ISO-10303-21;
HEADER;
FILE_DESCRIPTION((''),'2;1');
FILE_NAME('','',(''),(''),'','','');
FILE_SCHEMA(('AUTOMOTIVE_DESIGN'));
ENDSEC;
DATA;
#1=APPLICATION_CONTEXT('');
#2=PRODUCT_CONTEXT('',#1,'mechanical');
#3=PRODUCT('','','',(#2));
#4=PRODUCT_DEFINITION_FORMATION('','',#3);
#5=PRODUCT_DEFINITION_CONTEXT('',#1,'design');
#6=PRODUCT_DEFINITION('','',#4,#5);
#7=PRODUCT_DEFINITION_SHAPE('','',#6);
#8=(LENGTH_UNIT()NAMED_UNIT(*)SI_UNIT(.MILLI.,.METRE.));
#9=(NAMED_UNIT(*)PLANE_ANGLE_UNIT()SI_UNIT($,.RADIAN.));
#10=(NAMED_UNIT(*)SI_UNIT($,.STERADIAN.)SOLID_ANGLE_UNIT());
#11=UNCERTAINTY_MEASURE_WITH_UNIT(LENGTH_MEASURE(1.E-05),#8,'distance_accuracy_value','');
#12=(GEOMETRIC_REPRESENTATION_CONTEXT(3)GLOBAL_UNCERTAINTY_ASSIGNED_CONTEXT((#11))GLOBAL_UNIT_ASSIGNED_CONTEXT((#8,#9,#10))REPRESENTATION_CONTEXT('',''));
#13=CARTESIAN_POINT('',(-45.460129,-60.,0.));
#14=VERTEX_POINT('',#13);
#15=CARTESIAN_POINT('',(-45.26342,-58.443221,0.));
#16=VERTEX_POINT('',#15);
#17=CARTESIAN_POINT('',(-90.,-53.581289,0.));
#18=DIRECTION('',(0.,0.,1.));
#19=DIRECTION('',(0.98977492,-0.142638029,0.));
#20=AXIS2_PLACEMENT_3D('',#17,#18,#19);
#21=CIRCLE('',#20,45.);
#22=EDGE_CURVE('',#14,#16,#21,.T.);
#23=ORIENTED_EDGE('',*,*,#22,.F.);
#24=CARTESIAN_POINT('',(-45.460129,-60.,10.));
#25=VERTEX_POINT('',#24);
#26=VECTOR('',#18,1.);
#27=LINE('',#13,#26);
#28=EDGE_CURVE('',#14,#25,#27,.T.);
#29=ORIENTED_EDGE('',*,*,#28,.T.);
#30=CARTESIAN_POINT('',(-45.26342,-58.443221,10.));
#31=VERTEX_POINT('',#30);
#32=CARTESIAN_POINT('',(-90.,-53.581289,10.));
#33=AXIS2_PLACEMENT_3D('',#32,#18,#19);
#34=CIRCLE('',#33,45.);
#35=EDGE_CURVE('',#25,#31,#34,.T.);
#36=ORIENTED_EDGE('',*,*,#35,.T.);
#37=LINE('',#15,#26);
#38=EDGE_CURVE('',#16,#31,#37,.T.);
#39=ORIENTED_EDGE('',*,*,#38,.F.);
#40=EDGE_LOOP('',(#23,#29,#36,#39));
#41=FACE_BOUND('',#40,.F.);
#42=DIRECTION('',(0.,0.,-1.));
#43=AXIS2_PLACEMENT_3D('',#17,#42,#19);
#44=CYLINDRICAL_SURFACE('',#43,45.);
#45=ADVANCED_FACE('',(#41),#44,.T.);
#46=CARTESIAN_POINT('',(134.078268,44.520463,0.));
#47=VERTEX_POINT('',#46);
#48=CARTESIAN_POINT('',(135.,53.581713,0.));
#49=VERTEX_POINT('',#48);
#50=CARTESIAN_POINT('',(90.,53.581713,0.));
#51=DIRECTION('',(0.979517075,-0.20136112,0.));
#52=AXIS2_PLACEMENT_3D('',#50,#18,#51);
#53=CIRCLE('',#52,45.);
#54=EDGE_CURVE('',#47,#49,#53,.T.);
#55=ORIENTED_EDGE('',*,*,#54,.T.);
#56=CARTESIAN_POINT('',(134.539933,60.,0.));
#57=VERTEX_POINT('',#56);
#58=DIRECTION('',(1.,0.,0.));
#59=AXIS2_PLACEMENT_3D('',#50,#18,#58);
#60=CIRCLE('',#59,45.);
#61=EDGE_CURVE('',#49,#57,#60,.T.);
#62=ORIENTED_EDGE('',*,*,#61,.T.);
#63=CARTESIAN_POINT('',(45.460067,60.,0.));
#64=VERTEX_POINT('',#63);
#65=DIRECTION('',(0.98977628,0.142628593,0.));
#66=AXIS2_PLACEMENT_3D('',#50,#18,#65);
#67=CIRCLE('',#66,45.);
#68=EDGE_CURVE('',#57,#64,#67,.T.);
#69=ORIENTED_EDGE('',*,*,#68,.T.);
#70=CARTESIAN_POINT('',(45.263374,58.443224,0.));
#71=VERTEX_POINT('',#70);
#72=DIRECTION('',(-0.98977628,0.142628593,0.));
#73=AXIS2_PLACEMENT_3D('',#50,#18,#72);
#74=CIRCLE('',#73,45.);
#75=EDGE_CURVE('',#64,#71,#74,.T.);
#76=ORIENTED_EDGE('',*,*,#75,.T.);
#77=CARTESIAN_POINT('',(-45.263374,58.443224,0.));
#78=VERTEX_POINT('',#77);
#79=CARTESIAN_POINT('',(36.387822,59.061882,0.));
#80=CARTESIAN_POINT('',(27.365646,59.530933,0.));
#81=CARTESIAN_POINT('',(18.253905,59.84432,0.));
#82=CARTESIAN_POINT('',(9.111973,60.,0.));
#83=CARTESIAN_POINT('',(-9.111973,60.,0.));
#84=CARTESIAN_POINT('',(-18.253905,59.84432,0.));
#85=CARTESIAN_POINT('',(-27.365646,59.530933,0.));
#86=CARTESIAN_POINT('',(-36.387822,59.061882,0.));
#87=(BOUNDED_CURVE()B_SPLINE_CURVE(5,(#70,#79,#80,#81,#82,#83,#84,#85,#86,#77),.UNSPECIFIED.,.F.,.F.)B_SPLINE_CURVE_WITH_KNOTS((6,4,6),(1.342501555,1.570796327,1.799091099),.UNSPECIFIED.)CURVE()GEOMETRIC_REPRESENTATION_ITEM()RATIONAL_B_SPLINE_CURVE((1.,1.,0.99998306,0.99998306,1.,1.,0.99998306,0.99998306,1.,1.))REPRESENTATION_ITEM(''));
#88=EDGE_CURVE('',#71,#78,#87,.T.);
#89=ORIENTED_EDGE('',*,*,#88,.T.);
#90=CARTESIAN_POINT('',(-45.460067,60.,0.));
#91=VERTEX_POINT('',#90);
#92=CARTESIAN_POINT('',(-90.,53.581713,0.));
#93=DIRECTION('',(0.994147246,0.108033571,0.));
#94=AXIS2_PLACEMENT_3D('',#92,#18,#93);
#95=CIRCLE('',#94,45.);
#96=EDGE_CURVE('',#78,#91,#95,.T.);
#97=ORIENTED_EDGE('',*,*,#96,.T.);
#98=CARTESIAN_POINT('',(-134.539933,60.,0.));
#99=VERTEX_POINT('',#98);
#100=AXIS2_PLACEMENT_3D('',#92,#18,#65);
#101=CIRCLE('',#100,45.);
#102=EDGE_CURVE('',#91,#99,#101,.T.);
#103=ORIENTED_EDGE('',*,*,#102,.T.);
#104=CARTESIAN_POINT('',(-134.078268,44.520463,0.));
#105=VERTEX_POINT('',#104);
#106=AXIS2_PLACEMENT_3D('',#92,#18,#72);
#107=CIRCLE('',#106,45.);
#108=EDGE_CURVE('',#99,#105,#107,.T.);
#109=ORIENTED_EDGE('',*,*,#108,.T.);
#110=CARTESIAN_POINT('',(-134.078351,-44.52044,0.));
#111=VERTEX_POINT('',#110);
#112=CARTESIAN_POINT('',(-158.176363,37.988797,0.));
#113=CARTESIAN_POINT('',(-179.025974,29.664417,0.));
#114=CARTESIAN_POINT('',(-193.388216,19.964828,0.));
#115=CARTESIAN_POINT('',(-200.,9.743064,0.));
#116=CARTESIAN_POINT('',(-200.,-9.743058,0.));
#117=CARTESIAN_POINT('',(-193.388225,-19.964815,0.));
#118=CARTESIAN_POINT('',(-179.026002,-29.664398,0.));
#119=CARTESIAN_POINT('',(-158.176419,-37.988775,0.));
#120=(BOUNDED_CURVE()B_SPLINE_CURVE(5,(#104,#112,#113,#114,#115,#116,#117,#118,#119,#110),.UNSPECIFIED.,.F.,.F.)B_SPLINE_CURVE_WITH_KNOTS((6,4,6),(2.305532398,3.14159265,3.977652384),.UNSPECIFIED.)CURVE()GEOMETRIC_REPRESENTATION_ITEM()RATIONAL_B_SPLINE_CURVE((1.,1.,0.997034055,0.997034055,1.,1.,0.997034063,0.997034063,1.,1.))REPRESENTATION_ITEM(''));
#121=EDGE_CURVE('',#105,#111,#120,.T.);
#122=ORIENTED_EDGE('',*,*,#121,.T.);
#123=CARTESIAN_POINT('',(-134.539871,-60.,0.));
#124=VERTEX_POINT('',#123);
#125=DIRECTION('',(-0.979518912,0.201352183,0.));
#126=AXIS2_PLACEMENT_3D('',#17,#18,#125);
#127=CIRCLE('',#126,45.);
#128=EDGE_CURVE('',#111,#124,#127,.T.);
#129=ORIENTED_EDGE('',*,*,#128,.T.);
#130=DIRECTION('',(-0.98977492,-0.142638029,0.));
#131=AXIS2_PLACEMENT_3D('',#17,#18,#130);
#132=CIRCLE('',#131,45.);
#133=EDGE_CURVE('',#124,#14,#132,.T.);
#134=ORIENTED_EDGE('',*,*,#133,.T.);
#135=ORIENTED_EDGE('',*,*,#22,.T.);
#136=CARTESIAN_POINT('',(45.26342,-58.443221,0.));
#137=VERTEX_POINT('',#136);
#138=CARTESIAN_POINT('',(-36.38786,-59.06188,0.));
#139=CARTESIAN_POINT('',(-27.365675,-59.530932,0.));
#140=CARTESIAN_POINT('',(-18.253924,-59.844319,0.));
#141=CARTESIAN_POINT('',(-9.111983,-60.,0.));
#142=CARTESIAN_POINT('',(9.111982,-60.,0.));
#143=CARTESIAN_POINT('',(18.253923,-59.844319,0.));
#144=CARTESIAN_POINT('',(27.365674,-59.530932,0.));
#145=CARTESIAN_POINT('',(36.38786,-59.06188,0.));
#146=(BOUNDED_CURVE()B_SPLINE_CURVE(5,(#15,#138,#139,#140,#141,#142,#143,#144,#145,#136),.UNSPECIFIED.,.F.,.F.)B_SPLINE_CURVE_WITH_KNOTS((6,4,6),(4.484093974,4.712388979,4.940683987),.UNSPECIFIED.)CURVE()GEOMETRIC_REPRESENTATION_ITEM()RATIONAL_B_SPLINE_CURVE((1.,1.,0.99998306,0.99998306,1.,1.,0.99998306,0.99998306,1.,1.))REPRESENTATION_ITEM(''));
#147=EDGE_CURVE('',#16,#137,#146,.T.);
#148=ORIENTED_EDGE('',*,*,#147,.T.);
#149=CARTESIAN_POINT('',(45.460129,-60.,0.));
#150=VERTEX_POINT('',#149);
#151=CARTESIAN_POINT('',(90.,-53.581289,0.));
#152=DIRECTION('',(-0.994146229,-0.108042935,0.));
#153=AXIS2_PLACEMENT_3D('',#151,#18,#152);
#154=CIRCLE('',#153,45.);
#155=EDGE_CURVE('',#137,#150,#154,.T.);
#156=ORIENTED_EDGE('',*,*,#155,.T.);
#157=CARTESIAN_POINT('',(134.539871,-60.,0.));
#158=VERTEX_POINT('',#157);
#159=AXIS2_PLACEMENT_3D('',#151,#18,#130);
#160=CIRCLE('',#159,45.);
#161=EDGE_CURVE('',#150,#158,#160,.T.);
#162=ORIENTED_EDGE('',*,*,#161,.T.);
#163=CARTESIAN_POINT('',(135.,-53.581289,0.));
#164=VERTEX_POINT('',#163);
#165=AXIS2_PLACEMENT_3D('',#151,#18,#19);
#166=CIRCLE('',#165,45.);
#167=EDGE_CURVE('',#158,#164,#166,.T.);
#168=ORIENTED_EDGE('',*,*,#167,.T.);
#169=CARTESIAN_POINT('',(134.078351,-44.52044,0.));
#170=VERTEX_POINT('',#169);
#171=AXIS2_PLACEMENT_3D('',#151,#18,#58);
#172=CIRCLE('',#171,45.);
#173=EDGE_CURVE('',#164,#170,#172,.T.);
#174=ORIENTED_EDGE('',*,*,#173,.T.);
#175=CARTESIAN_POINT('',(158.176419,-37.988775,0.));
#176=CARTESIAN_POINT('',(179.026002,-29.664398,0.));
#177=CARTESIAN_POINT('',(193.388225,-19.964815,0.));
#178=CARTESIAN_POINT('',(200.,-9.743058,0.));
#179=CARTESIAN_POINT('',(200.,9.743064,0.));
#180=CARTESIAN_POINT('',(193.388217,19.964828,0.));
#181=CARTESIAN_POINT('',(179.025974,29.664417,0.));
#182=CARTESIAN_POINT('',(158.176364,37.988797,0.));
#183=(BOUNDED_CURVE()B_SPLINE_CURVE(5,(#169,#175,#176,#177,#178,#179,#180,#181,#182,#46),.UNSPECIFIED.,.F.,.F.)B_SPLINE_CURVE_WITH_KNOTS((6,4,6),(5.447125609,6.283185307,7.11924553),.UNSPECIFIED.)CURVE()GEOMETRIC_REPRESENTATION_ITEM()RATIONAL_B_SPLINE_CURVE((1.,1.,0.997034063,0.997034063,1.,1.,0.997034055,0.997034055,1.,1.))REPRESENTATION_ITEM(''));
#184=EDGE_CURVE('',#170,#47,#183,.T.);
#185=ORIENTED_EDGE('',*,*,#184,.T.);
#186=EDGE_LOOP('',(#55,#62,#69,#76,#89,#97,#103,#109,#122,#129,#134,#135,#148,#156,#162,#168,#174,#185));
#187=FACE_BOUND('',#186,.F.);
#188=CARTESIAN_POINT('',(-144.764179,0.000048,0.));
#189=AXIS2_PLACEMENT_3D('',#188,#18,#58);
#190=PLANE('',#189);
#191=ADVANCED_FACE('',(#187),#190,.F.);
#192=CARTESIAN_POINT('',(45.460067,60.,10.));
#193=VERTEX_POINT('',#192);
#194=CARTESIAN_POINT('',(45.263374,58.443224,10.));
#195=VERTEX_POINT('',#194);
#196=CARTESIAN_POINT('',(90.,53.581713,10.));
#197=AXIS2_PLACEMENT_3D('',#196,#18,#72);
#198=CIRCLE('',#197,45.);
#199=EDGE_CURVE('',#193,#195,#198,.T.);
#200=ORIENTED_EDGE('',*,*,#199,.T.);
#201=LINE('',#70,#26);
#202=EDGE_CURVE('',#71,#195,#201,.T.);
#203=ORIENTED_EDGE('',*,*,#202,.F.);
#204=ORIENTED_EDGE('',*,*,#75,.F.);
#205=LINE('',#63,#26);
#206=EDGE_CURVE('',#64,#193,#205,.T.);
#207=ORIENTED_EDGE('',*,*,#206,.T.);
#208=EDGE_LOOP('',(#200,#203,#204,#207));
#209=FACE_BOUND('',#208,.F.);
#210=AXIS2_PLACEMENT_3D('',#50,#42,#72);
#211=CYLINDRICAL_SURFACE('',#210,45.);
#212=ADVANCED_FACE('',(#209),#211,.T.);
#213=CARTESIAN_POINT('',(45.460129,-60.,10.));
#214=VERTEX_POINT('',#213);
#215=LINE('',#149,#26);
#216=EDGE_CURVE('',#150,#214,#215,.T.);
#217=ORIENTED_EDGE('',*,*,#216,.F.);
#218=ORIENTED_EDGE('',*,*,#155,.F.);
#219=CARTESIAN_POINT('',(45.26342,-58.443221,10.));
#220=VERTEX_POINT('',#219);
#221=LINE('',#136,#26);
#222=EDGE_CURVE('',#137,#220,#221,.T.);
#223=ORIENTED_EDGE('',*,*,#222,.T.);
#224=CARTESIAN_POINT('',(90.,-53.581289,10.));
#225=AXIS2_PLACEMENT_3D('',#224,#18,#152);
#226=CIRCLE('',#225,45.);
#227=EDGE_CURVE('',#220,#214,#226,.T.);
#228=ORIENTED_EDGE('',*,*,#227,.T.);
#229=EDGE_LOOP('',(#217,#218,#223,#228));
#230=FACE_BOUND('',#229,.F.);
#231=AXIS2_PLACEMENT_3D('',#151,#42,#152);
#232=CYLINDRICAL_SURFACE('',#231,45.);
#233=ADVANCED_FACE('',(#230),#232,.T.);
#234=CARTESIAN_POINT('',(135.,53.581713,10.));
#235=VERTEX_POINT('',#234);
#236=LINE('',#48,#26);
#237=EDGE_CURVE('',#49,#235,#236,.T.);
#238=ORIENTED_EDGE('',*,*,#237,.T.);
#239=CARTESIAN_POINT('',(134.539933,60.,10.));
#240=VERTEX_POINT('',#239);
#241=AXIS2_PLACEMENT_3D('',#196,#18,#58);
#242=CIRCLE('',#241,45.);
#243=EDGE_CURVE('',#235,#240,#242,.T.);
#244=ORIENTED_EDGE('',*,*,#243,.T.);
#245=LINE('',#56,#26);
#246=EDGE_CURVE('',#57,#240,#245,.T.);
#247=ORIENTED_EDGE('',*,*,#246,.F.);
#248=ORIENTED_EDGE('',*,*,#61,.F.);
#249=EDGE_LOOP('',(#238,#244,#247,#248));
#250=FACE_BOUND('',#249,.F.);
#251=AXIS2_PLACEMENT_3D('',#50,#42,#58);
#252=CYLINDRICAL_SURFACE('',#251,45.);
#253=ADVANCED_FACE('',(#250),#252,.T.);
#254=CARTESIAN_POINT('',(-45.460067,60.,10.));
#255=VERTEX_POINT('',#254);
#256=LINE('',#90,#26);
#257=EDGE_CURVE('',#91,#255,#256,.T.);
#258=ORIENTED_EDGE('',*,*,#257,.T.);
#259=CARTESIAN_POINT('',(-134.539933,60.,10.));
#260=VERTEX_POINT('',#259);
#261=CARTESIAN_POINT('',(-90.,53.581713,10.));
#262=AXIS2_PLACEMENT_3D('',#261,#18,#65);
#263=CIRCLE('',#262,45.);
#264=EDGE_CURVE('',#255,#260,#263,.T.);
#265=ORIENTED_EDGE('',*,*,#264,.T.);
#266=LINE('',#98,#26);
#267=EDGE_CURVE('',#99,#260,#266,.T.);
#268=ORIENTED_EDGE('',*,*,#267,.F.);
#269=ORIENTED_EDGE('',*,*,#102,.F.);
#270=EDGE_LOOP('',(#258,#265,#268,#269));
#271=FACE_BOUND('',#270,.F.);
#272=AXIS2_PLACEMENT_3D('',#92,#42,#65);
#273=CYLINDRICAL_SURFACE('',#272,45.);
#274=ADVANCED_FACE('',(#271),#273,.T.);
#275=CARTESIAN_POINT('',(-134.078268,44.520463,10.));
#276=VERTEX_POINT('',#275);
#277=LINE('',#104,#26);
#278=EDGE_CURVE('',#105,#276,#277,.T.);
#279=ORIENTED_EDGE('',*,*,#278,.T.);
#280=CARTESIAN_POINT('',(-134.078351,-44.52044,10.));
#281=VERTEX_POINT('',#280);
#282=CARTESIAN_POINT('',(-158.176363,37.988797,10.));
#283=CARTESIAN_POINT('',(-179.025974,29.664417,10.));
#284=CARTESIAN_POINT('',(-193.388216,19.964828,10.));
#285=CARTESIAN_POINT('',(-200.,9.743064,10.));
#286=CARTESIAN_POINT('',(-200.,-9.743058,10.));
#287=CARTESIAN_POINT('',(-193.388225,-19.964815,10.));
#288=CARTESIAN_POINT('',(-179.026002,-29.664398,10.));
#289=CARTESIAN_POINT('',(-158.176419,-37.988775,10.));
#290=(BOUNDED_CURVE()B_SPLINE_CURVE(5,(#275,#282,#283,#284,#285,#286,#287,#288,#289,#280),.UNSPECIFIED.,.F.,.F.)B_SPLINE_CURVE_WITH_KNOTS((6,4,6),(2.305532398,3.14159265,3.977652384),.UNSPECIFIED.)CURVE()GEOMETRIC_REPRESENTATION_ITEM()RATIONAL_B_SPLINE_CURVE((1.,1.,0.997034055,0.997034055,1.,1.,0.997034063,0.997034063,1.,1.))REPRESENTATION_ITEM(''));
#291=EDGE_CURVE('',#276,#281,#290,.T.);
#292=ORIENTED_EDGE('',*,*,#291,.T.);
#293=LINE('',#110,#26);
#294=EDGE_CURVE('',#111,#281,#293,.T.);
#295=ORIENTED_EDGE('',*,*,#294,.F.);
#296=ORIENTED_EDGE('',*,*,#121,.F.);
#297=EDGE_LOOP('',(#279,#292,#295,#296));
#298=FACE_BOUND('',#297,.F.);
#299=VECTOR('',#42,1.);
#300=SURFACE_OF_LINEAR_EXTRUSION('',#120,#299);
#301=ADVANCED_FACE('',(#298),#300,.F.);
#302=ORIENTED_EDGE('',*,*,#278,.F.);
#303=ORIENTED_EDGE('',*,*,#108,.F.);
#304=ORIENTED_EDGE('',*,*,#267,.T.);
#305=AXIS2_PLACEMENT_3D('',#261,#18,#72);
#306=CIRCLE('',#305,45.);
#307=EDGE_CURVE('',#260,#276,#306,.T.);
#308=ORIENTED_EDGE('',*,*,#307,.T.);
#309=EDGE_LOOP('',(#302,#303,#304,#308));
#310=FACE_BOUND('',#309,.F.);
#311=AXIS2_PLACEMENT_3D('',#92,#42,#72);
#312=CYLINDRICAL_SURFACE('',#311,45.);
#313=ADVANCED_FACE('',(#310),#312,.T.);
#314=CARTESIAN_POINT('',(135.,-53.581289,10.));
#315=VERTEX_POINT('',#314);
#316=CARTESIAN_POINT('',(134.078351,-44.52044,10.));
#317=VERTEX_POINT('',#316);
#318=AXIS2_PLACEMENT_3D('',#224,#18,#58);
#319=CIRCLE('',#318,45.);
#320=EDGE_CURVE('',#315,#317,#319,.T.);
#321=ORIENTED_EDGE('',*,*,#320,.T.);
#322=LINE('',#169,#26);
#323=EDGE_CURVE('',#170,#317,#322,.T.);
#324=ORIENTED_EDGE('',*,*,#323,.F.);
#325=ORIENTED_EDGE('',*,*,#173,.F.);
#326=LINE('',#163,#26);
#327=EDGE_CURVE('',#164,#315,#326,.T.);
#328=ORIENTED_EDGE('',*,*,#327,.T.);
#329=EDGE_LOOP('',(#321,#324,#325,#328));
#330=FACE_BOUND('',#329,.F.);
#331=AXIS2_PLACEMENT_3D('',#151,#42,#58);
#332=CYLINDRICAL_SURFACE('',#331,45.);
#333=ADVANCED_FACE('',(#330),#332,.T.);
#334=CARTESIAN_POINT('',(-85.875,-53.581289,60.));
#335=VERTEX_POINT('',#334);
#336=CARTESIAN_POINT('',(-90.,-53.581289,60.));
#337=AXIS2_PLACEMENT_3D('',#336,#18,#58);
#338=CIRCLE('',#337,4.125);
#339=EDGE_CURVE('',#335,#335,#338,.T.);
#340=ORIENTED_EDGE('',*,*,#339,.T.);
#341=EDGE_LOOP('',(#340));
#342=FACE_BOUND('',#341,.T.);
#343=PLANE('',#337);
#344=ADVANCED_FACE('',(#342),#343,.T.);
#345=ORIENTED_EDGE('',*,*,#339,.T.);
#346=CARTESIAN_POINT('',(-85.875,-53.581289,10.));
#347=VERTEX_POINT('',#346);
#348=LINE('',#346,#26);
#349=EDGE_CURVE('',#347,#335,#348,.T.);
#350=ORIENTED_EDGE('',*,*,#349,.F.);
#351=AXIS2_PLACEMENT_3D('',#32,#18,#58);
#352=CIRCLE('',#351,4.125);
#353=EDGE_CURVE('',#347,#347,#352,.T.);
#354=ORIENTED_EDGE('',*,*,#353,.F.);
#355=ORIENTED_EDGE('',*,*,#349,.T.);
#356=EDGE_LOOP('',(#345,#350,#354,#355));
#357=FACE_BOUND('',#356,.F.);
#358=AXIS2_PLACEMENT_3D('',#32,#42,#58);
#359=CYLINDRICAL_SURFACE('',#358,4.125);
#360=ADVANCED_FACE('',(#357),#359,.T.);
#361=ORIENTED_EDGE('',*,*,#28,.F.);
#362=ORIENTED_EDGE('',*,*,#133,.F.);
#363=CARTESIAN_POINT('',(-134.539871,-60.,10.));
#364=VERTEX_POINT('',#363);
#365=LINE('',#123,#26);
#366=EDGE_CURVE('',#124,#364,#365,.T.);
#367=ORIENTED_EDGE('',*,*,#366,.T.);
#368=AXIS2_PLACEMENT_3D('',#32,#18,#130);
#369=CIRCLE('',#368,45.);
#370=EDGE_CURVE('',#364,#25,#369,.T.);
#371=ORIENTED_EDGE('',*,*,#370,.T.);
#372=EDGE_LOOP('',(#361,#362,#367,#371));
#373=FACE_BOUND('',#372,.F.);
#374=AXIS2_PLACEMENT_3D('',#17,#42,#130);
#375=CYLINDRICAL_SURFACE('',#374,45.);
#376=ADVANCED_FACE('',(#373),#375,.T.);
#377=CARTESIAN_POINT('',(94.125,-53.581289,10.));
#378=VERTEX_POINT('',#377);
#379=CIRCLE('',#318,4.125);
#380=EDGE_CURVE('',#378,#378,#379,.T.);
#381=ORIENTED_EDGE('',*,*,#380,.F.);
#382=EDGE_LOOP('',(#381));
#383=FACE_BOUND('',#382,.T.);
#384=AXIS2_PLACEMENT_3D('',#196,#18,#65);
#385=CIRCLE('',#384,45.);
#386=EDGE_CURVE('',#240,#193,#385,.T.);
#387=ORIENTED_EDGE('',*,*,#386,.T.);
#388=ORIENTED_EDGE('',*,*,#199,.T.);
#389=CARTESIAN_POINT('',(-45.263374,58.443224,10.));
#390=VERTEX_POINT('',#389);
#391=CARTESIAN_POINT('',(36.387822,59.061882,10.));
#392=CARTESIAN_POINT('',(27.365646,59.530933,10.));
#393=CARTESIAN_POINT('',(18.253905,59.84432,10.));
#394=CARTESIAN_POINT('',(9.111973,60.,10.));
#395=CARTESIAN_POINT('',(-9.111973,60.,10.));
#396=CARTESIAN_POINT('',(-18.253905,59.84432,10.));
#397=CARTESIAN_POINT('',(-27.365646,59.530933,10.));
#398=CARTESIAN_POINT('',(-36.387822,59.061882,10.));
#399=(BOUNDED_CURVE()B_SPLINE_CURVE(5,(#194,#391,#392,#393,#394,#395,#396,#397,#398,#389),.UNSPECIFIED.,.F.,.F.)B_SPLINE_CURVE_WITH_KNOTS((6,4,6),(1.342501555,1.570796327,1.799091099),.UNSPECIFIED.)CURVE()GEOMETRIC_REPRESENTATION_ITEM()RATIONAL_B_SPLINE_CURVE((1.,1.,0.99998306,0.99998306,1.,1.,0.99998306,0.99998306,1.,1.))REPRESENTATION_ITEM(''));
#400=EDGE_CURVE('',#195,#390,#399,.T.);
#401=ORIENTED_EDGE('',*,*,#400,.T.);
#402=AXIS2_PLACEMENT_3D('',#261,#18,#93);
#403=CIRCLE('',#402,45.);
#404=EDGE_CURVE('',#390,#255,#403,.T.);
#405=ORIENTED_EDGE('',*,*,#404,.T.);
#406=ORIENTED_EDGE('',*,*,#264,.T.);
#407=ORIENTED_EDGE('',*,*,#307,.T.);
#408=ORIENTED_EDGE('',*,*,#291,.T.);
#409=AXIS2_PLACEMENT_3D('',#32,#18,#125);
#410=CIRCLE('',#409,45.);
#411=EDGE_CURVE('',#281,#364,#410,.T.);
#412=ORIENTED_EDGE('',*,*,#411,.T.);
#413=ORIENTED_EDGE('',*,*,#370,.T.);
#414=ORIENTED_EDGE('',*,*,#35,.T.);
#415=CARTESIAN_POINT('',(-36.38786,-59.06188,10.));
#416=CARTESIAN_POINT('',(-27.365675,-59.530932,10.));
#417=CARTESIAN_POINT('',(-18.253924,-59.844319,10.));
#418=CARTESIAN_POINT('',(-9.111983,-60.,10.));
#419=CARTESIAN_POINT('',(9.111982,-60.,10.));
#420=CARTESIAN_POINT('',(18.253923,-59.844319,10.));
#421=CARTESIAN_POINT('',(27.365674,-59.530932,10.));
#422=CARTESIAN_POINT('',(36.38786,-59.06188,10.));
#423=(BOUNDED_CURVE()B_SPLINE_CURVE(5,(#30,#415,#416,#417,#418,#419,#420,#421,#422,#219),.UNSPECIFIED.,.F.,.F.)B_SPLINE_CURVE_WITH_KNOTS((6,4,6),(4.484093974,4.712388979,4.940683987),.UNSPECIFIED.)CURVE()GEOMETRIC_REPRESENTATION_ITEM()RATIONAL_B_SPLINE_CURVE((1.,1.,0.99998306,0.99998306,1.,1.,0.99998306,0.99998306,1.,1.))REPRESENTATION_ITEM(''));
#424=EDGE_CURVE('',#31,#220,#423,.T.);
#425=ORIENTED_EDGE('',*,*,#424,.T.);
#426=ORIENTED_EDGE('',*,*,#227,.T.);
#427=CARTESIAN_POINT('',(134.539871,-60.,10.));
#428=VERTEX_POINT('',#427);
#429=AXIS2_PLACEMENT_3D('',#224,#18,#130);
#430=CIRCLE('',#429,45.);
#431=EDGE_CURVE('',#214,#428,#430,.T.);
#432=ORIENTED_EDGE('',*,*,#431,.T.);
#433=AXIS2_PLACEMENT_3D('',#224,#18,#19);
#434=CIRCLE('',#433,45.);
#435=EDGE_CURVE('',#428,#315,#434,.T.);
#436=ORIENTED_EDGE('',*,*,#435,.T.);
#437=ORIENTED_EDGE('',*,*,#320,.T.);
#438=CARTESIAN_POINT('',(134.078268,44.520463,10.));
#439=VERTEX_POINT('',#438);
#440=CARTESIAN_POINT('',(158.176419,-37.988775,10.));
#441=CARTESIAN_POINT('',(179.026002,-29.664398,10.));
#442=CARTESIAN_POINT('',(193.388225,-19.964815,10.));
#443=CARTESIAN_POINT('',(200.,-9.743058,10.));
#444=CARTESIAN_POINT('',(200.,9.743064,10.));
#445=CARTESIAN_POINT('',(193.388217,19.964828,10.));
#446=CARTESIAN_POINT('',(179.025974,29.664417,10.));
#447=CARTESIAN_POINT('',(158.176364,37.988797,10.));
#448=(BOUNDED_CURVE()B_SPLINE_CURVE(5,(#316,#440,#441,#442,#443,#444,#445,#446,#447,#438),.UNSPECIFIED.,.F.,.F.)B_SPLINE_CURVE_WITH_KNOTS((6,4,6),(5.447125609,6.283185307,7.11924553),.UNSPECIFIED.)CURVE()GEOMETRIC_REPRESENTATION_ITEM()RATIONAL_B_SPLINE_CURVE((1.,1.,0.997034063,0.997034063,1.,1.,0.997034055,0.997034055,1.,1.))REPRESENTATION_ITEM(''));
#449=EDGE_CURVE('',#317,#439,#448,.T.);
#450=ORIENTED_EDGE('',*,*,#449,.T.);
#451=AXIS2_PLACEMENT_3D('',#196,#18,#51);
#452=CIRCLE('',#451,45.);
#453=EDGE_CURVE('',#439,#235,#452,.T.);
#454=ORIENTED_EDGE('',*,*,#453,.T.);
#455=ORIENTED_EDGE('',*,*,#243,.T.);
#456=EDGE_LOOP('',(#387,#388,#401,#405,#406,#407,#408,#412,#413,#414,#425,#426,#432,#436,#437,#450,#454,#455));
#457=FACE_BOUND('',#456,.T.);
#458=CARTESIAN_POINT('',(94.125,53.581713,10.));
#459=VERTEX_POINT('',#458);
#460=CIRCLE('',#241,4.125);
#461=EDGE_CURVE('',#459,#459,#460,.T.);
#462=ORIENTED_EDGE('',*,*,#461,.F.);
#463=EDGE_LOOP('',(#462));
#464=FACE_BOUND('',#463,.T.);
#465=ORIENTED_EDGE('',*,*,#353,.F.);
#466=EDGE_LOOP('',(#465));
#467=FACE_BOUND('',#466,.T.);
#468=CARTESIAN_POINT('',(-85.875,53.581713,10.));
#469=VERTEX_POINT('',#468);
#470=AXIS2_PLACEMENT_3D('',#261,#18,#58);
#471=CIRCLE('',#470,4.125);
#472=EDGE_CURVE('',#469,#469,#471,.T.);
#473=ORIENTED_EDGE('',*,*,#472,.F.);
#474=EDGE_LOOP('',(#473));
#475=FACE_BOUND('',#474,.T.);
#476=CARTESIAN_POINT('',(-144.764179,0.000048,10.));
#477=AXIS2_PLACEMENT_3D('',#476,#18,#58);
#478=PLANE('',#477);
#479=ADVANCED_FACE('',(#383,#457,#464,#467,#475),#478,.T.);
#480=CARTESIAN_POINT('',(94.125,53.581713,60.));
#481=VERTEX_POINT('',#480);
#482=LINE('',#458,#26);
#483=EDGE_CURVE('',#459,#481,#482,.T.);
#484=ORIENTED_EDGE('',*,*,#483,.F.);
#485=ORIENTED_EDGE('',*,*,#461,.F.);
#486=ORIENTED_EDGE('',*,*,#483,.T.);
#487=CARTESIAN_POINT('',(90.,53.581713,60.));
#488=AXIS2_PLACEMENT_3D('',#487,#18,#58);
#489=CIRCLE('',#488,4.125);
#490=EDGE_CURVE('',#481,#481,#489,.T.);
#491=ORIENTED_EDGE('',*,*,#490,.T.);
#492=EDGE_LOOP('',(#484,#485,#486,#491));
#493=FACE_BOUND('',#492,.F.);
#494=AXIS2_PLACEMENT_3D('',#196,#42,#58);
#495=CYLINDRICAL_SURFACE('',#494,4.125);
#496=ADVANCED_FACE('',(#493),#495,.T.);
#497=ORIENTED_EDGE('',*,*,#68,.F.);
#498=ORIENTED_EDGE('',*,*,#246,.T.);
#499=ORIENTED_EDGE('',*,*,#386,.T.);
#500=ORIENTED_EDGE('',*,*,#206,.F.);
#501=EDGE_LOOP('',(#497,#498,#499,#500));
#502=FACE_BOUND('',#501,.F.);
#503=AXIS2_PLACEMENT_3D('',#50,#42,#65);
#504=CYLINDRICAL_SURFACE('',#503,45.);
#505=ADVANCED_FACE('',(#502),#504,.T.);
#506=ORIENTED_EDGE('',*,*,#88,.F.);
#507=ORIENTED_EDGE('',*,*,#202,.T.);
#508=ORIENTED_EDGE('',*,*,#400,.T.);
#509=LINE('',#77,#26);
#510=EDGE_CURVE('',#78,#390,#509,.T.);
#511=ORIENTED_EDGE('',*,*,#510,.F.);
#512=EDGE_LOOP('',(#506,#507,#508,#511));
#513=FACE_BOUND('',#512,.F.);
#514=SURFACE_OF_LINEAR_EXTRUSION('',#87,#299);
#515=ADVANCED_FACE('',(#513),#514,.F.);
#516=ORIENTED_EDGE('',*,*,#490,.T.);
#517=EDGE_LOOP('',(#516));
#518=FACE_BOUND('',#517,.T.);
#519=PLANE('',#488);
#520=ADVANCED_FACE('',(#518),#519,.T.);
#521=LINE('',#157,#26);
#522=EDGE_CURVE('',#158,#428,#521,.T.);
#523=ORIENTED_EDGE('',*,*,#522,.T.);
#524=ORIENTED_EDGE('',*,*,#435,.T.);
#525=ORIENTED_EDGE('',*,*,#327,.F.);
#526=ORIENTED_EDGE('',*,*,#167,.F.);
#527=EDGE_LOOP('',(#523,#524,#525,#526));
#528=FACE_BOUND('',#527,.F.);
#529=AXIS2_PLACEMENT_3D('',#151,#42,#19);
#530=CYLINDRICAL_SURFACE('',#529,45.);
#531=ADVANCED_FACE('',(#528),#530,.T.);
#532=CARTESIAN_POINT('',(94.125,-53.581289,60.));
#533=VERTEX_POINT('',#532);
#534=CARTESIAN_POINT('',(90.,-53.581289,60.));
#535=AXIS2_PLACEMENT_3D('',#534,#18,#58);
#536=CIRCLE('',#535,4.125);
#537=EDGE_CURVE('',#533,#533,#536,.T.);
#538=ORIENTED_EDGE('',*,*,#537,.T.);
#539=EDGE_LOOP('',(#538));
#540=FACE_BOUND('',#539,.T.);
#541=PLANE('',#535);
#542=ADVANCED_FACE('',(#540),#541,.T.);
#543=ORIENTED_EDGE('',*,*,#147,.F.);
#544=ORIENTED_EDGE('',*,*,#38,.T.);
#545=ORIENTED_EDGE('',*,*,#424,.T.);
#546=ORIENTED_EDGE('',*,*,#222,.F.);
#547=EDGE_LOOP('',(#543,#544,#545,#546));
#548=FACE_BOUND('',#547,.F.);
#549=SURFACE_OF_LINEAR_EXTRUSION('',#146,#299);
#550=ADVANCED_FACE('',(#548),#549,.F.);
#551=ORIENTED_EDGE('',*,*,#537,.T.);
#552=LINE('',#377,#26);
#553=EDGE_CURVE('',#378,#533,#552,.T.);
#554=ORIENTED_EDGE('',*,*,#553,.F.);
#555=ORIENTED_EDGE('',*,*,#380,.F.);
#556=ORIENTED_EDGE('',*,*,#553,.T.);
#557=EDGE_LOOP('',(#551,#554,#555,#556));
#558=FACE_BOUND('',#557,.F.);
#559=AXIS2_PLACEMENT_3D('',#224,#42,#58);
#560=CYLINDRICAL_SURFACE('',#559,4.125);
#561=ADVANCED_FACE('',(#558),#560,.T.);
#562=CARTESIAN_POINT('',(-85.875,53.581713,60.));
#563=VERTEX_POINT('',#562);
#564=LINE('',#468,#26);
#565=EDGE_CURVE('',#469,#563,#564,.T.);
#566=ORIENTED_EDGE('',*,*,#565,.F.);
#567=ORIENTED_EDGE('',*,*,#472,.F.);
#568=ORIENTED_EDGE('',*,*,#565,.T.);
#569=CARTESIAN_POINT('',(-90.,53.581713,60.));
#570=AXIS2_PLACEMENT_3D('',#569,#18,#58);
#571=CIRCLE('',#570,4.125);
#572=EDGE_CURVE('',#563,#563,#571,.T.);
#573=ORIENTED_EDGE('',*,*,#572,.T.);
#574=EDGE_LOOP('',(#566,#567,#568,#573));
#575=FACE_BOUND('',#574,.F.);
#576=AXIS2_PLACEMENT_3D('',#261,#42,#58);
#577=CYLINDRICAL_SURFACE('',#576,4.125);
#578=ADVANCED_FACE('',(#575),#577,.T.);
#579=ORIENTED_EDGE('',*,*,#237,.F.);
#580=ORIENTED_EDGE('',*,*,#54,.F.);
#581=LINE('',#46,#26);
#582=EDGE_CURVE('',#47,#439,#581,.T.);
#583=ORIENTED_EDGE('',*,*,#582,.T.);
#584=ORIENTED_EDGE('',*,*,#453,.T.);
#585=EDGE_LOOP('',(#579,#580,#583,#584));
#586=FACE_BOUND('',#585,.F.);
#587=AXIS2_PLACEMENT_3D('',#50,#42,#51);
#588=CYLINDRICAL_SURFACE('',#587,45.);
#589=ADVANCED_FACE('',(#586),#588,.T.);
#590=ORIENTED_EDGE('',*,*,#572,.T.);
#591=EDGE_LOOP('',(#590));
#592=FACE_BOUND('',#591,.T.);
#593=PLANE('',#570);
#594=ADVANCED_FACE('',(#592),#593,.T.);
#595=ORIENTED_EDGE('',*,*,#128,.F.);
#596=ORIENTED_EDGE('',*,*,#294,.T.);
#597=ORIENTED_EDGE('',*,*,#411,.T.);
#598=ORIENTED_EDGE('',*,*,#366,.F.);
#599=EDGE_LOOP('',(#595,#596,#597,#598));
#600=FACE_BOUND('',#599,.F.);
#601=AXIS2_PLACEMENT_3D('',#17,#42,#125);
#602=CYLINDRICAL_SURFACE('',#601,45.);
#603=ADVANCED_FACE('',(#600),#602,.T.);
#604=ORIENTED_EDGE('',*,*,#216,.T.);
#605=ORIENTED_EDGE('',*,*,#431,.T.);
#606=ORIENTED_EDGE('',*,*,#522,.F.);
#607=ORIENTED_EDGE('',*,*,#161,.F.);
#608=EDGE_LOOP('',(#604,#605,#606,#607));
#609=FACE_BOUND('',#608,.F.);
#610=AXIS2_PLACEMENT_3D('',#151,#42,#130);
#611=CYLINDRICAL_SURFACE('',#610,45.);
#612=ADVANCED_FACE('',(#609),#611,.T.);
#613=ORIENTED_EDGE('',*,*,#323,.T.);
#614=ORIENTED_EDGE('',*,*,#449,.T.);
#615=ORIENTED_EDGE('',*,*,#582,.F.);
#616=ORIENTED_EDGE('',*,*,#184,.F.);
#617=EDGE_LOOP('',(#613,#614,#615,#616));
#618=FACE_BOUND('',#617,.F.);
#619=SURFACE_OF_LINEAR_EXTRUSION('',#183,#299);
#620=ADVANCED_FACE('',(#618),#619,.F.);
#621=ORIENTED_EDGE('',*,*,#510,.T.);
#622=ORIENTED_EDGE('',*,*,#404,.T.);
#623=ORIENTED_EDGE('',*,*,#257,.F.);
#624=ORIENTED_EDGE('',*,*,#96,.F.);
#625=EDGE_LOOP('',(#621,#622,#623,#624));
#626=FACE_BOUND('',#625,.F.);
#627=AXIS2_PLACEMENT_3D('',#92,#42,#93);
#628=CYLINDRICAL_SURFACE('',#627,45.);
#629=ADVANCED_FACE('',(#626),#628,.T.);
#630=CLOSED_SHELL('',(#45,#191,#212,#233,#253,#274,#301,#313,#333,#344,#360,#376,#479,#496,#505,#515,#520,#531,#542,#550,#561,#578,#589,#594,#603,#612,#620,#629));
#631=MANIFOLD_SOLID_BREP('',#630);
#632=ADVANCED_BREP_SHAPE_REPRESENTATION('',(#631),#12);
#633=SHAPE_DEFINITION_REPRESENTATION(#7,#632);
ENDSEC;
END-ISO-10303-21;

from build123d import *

# Parameters (mm, degrees)
F1_DEPTH = 10
F2_R     = 4.125
F3_DEPTH = 50


with BuildPart() as f1:
    # F0 (on Top) → F1 (new body)
    with BuildSketch(Plane.XY):
        with BuildLine():
            add(Edge.make_bspline(
                [(-134.0782683535, 44.5204628904), (-199.999999721, 26.6527141895), (-200, 1.885e-07)],
                knots=[2.305532398, 2.305532398, 2.305532398, 3.1415926504, 3.1415926504, 3.1415926504], degree=2, weights=[1, 0.9138904048, 1]))
            add(Edge.make_bspline(
                [(-200, 1.885e-07), (-200.000000279, -26.6526940275), (-134.0783510273, -44.5204404821)],
                knots=[3.1415926504, 3.1415926504, 3.1415926504, 3.9776523521, 3.9776523521, 3.9776523521], degree=2, weights=[1, 0.9138905166, 1]))
            ThreePointArc((-134.0783510273, -44.5204404821), (-118.4364363932, -18.7048054461), (-90, -8.5812887157))
            Line((-90, -8.5812887157), (-90, 8.5817132985))
            ThreePointArc((-90, 8.5817132985), (-118.4362772848, 18.7051003009), (-134.0782683535, 44.5204628904))
        make_face()
        with BuildLine():
            add(Edge.make_bspline(
                [(134.0783510273, -44.5204404821), (200, -26.6526941032), (200, 0)],
                knots=[5.4471256087, 5.4471256087, 5.4471256087, 6.2831853072, 6.2831853072, 6.2831853072], degree=2, weights=[1, 0.9138905173, 1]))
            add(Edge.make_bspline(
                [(200, 0), (200, 26.6527141139), (134.0782683535, 44.5204628904)],
                knots=[0, 0, 0, 0.8360602556, 0.8360602556, 0.8360602556], degree=2, weights=[1, 0.9138904042, 1]))
            ThreePointArc((134.0782683535, 44.5204628904), (118.4362772848, 18.7051003009), (90, 8.5817132985))
            Line((90, 8.5817132985), (90, -8.5812887157))
            ThreePointArc((90, -8.5812887157), (118.4364363932, -18.7048054461), (134.0783510273, -44.5204404821))
        make_face()
        with BuildLine():
            Line((90, -8.5812887157), (90, 8.5817132985))
            ThreePointArc((90, 8.5817132985), (58.1801948466, 21.7619081451), (45, 53.5817132985))
            Line((45, 53.5817132985), (-45, 53.5817132985))
            ThreePointArc((-45, 53.5817132985), (-58.1801948466, 21.7619081451), (-90, 8.5817132985))
            Line((-90, 8.5817132985), (-90, -8.5812887157))
            ThreePointArc((-90, -8.5812887157), (-58.1801948466, -21.7614835623), (-45, -53.5812887157))
            ThreePointArc((-45, -53.5812887157), (-45.0000000005, -53.5815010071), (-45.000000002, -53.5817132985))
            Line((-45.000000002, -53.5817132985), (45.000000002, -53.5817132985))
            ThreePointArc((45.000000002, -53.5817132985), (58.1800447343, -21.7616336753), (90, -8.5812887157))
        make_face()
        with BuildLine():
            Line((90, 8.5817132985), (90, 53.5817132985))
            Line((90, 53.5817132985), (45, 53.5817132985))
            ThreePointArc((45, 53.5817132985), (58.1801948466, 21.7619081451), (90, 8.5817132985))
        make_face()
        with BuildLine():
            Line((45.000000002, -53.5817132985), (90, -53.5817132985))
            Line((90, -53.5817132985), (90, -8.5812887157))
            ThreePointArc((90, -8.5812887157), (58.1800447343, -21.7616336753), (45.000000002, -53.5817132985))
        make_face()
        with BuildLine():
            Line((-90, -8.5812887157), (-90, -53.5817132985))
            Line((-90, -53.5817132985), (-45.000000002, -53.5817132985))
            ThreePointArc((-45.000000002, -53.5817132985), (-45.0000000005, -53.5815010071), (-45, -53.5812887157))
            ThreePointArc((-45, -53.5812887157), (-58.1801948466, -21.7614835623), (-90, -8.5812887157))
        make_face()
        with BuildLine():
            Line((-45, 53.5817132985), (-90, 53.5817132985))
            Line((-90, 53.5817132985), (-90, 8.5817132985))
            ThreePointArc((-90, 8.5817132985), (-58.1801948466, 21.7619081451), (-45, 53.5817132985))
        make_face()
        with BuildLine():
            add(Edge.make_bspline(
                [(-90, 53.5817132985), (-114.0747884437, 49.9423039853), (-134.0782683535, 44.5204628904)],
                knots=[2.0375616658, 2.0375616658, 2.0375616658, 2.305532398, 2.305532398, 2.305532398], degree=2, weights=[1, 0.991037381, 1]))
            ThreePointArc((-134.0782683535, 44.5204628904), (-118.4362772848, 18.7051003009), (-90, 8.5817132985))
            Line((-90, 8.5817132985), (-90, 53.5817132985))
        make_face()
        with BuildLine():
            ThreePointArc((-90, -8.5812887157), (-118.4364363932, -18.7048054461), (-134.0783510273, -44.5204404821))
            add(Edge.make_bspline(
                [(-134.0783510273, -44.5204404821), (-114.0748390978, -49.9422963279), (-90, -53.5817132985)],
                knots=[3.9776523521, 3.9776523521, 3.9776523521, 4.2456236413, 4.2456236413, 4.2456236413], degree=2, weights=[1, 0.9910373438, 1]))
            Line((-90, -53.5817132985), (-90, -8.5812887157))
        make_face()
        with BuildLine():
            ThreePointArc((90, 8.5817132985), (118.4362772848, 18.7051003009), (134.0782683535, 44.5204628904))
            add(Edge.make_bspline(
                [(134.0782683535, 44.5204628904), (114.0747884437, 49.9423039853), (90, 53.5817132985)],
                knots=[0.8360602556, 0.8360602556, 0.8360602556, 1.1040309877, 1.1040309877, 1.1040309877], degree=2, weights=[1, 0.991037381, 1]))
            Line((90, 53.5817132985), (90, 8.5817132985))
        make_face()
        with BuildLine():
            add(Edge.make_bspline(
                [(90, -53.5817132985), (114.0748390978, -49.9422963279), (134.0783510273, -44.5204404821)],
                knots=[5.1791543194, 5.1791543194, 5.1791543194, 5.4471256087, 5.4471256087, 5.4471256087], degree=2, weights=[1, 0.9910373438, 1]))
            ThreePointArc((134.0783510273, -44.5204404821), (118.4364363932, -18.7048054461), (90, -8.5812887157))
            Line((90, -8.5812887157), (90, -53.5817132985))
        make_face()
        with BuildLine():
            add(Edge.make_bspline(
                [(45.2634197039, -58.4432207814), (68.6024188359, -56.816406569), (90, -53.5817132985)],
                knots=[4.9406839873, 4.9406839873, 4.9406839873, 5.1791543194, 5.1791543194, 5.1791543194], degree=2, weights=[1, 0.9928999054, 1]))
            Line((90, -53.5817132985), (45.000000002, -53.5817132985))
            ThreePointArc((45.000000002, -53.5817132985), (45.0659146697, -56.0160321373), (45.2634197039, -58.4432207814))
        make_face()
        with BuildLine():
            ThreePointArc((135, -53.5812887157), (134.7689948303, -49.0274878982), (134.0783510273, -44.5204404821))
            add(Edge.make_bspline(
                [(90, -53.5817132985), (114.0748390978, -49.9422963279), (134.0783510273, -44.5204404821)],
                knots=[5.1791543194, 5.1791543194, 5.1791543194, 5.4471256087, 5.4471256087, 5.4471256087], degree=2, weights=[1, 0.9910373438, 1]))
            add(Edge.make_bspline(
                [(45.2634197039, -58.4432207814), (68.6024188359, -56.816406569), (90, -53.5817132985)],
                knots=[4.9406839873, 4.9406839873, 4.9406839873, 5.1791543194, 5.1791543194, 5.1791543194], degree=2, weights=[1, 0.9928999054, 1]))
            ThreePointArc((45.2634197039, -58.4432207814), (45.3549879851, -59.2224678649), (45.4601285874, -60))
            Line((45.4601285874, -60), (134.5398714126, -60))
            ThreePointArc((134.5398714126, -60), (134.8848204495, -56.7988799292), (135, -53.5812887157))
        make_face()
        with BuildLine():
            Line((45, 53.5817132985), (90, 53.5817132985))
            add(Edge.make_bspline(
                [(90, 53.5817132985), (68.6023975421, 56.816409788), (45.2633739095, 58.4432239734)],
                knots=[1.1040309877, 1.1040309877, 1.1040309877, 1.3425015549, 1.3425015549, 1.3425015549], degree=2, weights=[1, 0.9928998914, 1]))
            ThreePointArc((45.2633739095, 58.4432239734), (45.0658917187, 56.0160331141), (45, 53.5817132985))
        make_face()
        with BuildLine():
            add(Edge.make_bspline(
                [(45.2633739095, 58.4432239734), (22.9291498784, 60), (0, 60)],
                knots=[1.3425015549, 1.3425015549, 1.3425015549, 1.5707963268, 1.5707963268, 1.5707963268], degree=2, weights=[1, 0.9934922579, 1]))
            add(Edge.make_bspline(
                [(0, 60), (-22.9291498784, 60), (-45.2633739095, 58.4432239734)],
                knots=[1.5707963268, 1.5707963268, 1.5707963268, 1.7990910987, 1.7990910987, 1.7990910987], degree=2, weights=[1, 0.9934922579, 1]))
            ThreePointArc((-45.2633739095, 58.4432239734), (-45.0658917187, 56.0160331141), (-45, 53.5817132985))
            Line((-45, 53.5817132985), (45, 53.5817132985))
            ThreePointArc((45, 53.5817132985), (45.0658917187, 56.0160331141), (45.2633739095, 58.4432239734))
        make_face()
        with BuildLine():
            Line((45.4600674022, 60), (134.5399325978, 60))
            ThreePointArc((134.5399325978, 60), (90, 98.5817132985), (45.4600674022, 60))
        make_face()
        with BuildLine():
            ThreePointArc((135, 53.5817132985), (134.884835785, 56.7990905765), (134.5399325978, 60))
            Line((134.5399325978, 60), (45.4600674022, 60))
            ThreePointArc((45.4600674022, 60), (45.3549345313, 59.2224693911), (45.2633739095, 58.4432239734))
            add(Edge.make_bspline(
                [(90, 53.5817132985), (68.6023975421, 56.816409788), (45.2633739095, 58.4432239734)],
                knots=[1.1040309877, 1.1040309877, 1.1040309877, 1.3425015549, 1.3425015549, 1.3425015549], degree=2, weights=[1, 0.9928998914, 1]))
            add(Edge.make_bspline(
                [(134.0782683535, 44.5204628904), (114.0747884437, 49.9423039853), (90, 53.5817132985)],
                knots=[0.8360602556, 0.8360602556, 0.8360602556, 1.1040309877, 1.1040309877, 1.1040309877], degree=2, weights=[1, 0.991037381, 1]))
            ThreePointArc((134.0782683535, 44.5204628904), (134.7689740552, 49.0277082429), (135, 53.5817132985))
        make_face()
        with BuildLine():
            ThreePointArc((-45.4600674022, 60), (-90, 98.5817132985), (-134.5399325978, 60))
            Line((-134.5399325978, 60), (-45.4600674022, 60))
        make_face()
        with BuildLine():
            Line((-45.4600674022, 60), (-134.5399325978, 60))
            ThreePointArc((-134.5399325978, 60), (-134.9800000249, 52.2402224274), (-134.0782683535, 44.5204628904))
            add(Edge.make_bspline(
                [(-90, 53.5817132985), (-114.0747884437, 49.9423039853), (-134.0782683535, 44.5204628904)],
                knots=[2.0375616658, 2.0375616658, 2.0375616658, 2.305532398, 2.305532398, 2.305532398], degree=2, weights=[1, 0.991037381, 1]))
            add(Edge.make_bspline(
                [(-45.2633739095, 58.4432239734), (-68.6023975421, 56.816409788), (-90, 53.5817132985)],
                knots=[1.7990910987, 1.7990910987, 1.7990910987, 2.0375616658, 2.0375616658, 2.0375616658], degree=2, weights=[1, 0.9928998914, 1]))
            ThreePointArc((-45.2633739095, 58.4432239734), (-45.3549345313, 59.2224693911), (-45.4600674022, 60))
        make_face()
        with BuildLine():
            add(Edge.make_bspline(
                [(-45.2633739095, 58.4432239734), (-68.6023975421, 56.816409788), (-90, 53.5817132985)],
                knots=[1.7990910987, 1.7990910987, 1.7990910987, 2.0375616658, 2.0375616658, 2.0375616658], degree=2, weights=[1, 0.9928998914, 1]))
            Line((-90, 53.5817132985), (-45, 53.5817132985))
            ThreePointArc((-45, 53.5817132985), (-45.0658917187, 56.0160331141), (-45.2633739095, 58.4432239734))
        make_face()
        with BuildLine():
            Line((-45.000000002, -53.5817132985), (-90, -53.5817132985))
            add(Edge.make_bspline(
                [(-90, -53.5817132985), (-68.6024188359, -56.816406569), (-45.2634197039, -58.4432207814)],
                knots=[4.2456236413, 4.2456236413, 4.2456236413, 4.4840939735, 4.4840939735, 4.4840939735], degree=2, weights=[1, 0.9928999054, 1]))
            ThreePointArc((-45.2634197039, -58.4432207814), (-45.0659146697, -56.0160321373), (-45.000000002, -53.5817132985))
        make_face()
        with BuildLine():
            Line((-45.4601285874, -60), (-134.5398714126, -60))
            ThreePointArc((-134.5398714126, -60), (-90, -98.5812887157), (-45.4601285874, -60))
        make_face()
        with BuildLine():
            ThreePointArc((45.4601285874, -60), (90, -98.5812887157), (134.5398714126, -60))
            Line((134.5398714126, -60), (45.4601285874, -60))
        make_face()
        with BuildLine():
            add(Edge.make_bspline(
                [(-134.0783510273, -44.5204404821), (-114.0748390978, -49.9422963279), (-90, -53.5817132985)],
                knots=[3.9776523521, 3.9776523521, 3.9776523521, 4.2456236413, 4.2456236413, 4.2456236413], degree=2, weights=[1, 0.9910373438, 1]))
            ThreePointArc((-134.0783510273, -44.5204404821), (-134.9800125369, -52.2402174345), (-134.5398714126, -60))
            Line((-134.5398714126, -60), (-45.4601285874, -60))
            ThreePointArc((-45.4601285874, -60), (-45.3549879851, -59.2224678649), (-45.2634197039, -58.4432207814))
            add(Edge.make_bspline(
                [(-90, -53.5817132985), (-68.6024188359, -56.816406569), (-45.2634197039, -58.4432207814)],
                knots=[4.2456236413, 4.2456236413, 4.2456236413, 4.4840939735, 4.4840939735, 4.4840939735], degree=2, weights=[1, 0.9928999054, 1]))
        make_face()
        with BuildLine():
            add(Edge.make_bspline(
                [(-2.225e-07, -60), (22.9291735847, -60.0000000077), (45.2634197039, -58.4432207814)],
                knots=[4.7123889793, 4.7123889793, 4.7123889793, 4.9406839873, 4.9406839873, 4.9406839873], degree=2, weights=[1, 0.9934922444, 1]))
            ThreePointArc((45.2634197039, -58.4432207814), (45.0659146697, -56.0160321373), (45.000000002, -53.5817132985))
            Line((45.000000002, -53.5817132985), (-45.000000002, -53.5817132985))
            ThreePointArc((-45.000000002, -53.5817132985), (-45.0659146697, -56.0160321373), (-45.2634197039, -58.4432207814))
            add(Edge.make_bspline(
                [(-45.2634197039, -58.4432207814), (-22.9291738043, -59.9999999923), (-2.225e-07, -60)],
                knots=[4.4840939735, 4.4840939735, 4.4840939735, 4.7123889793, 4.7123889793, 4.7123889793], degree=2, weights=[1, 0.9934922445, 1]))
        make_face()
    extrude(amount=F1_DEPTH)

    # F2 (on face) → F3 (join)
    with BuildSketch(Plane.XY.offset(10)):
        with Locations((90, 53.5817132985)):
            Circle(F2_R)
        with Locations((90, -53.5812887157)):
            Circle(F2_R)
        with Locations((-90, -53.5812887157)):
            Circle(F2_R)
        with Locations((-90, 53.5817132985)):
            Circle(F2_R)
    extrude(amount=F3_DEPTH)


solid = f1.part
